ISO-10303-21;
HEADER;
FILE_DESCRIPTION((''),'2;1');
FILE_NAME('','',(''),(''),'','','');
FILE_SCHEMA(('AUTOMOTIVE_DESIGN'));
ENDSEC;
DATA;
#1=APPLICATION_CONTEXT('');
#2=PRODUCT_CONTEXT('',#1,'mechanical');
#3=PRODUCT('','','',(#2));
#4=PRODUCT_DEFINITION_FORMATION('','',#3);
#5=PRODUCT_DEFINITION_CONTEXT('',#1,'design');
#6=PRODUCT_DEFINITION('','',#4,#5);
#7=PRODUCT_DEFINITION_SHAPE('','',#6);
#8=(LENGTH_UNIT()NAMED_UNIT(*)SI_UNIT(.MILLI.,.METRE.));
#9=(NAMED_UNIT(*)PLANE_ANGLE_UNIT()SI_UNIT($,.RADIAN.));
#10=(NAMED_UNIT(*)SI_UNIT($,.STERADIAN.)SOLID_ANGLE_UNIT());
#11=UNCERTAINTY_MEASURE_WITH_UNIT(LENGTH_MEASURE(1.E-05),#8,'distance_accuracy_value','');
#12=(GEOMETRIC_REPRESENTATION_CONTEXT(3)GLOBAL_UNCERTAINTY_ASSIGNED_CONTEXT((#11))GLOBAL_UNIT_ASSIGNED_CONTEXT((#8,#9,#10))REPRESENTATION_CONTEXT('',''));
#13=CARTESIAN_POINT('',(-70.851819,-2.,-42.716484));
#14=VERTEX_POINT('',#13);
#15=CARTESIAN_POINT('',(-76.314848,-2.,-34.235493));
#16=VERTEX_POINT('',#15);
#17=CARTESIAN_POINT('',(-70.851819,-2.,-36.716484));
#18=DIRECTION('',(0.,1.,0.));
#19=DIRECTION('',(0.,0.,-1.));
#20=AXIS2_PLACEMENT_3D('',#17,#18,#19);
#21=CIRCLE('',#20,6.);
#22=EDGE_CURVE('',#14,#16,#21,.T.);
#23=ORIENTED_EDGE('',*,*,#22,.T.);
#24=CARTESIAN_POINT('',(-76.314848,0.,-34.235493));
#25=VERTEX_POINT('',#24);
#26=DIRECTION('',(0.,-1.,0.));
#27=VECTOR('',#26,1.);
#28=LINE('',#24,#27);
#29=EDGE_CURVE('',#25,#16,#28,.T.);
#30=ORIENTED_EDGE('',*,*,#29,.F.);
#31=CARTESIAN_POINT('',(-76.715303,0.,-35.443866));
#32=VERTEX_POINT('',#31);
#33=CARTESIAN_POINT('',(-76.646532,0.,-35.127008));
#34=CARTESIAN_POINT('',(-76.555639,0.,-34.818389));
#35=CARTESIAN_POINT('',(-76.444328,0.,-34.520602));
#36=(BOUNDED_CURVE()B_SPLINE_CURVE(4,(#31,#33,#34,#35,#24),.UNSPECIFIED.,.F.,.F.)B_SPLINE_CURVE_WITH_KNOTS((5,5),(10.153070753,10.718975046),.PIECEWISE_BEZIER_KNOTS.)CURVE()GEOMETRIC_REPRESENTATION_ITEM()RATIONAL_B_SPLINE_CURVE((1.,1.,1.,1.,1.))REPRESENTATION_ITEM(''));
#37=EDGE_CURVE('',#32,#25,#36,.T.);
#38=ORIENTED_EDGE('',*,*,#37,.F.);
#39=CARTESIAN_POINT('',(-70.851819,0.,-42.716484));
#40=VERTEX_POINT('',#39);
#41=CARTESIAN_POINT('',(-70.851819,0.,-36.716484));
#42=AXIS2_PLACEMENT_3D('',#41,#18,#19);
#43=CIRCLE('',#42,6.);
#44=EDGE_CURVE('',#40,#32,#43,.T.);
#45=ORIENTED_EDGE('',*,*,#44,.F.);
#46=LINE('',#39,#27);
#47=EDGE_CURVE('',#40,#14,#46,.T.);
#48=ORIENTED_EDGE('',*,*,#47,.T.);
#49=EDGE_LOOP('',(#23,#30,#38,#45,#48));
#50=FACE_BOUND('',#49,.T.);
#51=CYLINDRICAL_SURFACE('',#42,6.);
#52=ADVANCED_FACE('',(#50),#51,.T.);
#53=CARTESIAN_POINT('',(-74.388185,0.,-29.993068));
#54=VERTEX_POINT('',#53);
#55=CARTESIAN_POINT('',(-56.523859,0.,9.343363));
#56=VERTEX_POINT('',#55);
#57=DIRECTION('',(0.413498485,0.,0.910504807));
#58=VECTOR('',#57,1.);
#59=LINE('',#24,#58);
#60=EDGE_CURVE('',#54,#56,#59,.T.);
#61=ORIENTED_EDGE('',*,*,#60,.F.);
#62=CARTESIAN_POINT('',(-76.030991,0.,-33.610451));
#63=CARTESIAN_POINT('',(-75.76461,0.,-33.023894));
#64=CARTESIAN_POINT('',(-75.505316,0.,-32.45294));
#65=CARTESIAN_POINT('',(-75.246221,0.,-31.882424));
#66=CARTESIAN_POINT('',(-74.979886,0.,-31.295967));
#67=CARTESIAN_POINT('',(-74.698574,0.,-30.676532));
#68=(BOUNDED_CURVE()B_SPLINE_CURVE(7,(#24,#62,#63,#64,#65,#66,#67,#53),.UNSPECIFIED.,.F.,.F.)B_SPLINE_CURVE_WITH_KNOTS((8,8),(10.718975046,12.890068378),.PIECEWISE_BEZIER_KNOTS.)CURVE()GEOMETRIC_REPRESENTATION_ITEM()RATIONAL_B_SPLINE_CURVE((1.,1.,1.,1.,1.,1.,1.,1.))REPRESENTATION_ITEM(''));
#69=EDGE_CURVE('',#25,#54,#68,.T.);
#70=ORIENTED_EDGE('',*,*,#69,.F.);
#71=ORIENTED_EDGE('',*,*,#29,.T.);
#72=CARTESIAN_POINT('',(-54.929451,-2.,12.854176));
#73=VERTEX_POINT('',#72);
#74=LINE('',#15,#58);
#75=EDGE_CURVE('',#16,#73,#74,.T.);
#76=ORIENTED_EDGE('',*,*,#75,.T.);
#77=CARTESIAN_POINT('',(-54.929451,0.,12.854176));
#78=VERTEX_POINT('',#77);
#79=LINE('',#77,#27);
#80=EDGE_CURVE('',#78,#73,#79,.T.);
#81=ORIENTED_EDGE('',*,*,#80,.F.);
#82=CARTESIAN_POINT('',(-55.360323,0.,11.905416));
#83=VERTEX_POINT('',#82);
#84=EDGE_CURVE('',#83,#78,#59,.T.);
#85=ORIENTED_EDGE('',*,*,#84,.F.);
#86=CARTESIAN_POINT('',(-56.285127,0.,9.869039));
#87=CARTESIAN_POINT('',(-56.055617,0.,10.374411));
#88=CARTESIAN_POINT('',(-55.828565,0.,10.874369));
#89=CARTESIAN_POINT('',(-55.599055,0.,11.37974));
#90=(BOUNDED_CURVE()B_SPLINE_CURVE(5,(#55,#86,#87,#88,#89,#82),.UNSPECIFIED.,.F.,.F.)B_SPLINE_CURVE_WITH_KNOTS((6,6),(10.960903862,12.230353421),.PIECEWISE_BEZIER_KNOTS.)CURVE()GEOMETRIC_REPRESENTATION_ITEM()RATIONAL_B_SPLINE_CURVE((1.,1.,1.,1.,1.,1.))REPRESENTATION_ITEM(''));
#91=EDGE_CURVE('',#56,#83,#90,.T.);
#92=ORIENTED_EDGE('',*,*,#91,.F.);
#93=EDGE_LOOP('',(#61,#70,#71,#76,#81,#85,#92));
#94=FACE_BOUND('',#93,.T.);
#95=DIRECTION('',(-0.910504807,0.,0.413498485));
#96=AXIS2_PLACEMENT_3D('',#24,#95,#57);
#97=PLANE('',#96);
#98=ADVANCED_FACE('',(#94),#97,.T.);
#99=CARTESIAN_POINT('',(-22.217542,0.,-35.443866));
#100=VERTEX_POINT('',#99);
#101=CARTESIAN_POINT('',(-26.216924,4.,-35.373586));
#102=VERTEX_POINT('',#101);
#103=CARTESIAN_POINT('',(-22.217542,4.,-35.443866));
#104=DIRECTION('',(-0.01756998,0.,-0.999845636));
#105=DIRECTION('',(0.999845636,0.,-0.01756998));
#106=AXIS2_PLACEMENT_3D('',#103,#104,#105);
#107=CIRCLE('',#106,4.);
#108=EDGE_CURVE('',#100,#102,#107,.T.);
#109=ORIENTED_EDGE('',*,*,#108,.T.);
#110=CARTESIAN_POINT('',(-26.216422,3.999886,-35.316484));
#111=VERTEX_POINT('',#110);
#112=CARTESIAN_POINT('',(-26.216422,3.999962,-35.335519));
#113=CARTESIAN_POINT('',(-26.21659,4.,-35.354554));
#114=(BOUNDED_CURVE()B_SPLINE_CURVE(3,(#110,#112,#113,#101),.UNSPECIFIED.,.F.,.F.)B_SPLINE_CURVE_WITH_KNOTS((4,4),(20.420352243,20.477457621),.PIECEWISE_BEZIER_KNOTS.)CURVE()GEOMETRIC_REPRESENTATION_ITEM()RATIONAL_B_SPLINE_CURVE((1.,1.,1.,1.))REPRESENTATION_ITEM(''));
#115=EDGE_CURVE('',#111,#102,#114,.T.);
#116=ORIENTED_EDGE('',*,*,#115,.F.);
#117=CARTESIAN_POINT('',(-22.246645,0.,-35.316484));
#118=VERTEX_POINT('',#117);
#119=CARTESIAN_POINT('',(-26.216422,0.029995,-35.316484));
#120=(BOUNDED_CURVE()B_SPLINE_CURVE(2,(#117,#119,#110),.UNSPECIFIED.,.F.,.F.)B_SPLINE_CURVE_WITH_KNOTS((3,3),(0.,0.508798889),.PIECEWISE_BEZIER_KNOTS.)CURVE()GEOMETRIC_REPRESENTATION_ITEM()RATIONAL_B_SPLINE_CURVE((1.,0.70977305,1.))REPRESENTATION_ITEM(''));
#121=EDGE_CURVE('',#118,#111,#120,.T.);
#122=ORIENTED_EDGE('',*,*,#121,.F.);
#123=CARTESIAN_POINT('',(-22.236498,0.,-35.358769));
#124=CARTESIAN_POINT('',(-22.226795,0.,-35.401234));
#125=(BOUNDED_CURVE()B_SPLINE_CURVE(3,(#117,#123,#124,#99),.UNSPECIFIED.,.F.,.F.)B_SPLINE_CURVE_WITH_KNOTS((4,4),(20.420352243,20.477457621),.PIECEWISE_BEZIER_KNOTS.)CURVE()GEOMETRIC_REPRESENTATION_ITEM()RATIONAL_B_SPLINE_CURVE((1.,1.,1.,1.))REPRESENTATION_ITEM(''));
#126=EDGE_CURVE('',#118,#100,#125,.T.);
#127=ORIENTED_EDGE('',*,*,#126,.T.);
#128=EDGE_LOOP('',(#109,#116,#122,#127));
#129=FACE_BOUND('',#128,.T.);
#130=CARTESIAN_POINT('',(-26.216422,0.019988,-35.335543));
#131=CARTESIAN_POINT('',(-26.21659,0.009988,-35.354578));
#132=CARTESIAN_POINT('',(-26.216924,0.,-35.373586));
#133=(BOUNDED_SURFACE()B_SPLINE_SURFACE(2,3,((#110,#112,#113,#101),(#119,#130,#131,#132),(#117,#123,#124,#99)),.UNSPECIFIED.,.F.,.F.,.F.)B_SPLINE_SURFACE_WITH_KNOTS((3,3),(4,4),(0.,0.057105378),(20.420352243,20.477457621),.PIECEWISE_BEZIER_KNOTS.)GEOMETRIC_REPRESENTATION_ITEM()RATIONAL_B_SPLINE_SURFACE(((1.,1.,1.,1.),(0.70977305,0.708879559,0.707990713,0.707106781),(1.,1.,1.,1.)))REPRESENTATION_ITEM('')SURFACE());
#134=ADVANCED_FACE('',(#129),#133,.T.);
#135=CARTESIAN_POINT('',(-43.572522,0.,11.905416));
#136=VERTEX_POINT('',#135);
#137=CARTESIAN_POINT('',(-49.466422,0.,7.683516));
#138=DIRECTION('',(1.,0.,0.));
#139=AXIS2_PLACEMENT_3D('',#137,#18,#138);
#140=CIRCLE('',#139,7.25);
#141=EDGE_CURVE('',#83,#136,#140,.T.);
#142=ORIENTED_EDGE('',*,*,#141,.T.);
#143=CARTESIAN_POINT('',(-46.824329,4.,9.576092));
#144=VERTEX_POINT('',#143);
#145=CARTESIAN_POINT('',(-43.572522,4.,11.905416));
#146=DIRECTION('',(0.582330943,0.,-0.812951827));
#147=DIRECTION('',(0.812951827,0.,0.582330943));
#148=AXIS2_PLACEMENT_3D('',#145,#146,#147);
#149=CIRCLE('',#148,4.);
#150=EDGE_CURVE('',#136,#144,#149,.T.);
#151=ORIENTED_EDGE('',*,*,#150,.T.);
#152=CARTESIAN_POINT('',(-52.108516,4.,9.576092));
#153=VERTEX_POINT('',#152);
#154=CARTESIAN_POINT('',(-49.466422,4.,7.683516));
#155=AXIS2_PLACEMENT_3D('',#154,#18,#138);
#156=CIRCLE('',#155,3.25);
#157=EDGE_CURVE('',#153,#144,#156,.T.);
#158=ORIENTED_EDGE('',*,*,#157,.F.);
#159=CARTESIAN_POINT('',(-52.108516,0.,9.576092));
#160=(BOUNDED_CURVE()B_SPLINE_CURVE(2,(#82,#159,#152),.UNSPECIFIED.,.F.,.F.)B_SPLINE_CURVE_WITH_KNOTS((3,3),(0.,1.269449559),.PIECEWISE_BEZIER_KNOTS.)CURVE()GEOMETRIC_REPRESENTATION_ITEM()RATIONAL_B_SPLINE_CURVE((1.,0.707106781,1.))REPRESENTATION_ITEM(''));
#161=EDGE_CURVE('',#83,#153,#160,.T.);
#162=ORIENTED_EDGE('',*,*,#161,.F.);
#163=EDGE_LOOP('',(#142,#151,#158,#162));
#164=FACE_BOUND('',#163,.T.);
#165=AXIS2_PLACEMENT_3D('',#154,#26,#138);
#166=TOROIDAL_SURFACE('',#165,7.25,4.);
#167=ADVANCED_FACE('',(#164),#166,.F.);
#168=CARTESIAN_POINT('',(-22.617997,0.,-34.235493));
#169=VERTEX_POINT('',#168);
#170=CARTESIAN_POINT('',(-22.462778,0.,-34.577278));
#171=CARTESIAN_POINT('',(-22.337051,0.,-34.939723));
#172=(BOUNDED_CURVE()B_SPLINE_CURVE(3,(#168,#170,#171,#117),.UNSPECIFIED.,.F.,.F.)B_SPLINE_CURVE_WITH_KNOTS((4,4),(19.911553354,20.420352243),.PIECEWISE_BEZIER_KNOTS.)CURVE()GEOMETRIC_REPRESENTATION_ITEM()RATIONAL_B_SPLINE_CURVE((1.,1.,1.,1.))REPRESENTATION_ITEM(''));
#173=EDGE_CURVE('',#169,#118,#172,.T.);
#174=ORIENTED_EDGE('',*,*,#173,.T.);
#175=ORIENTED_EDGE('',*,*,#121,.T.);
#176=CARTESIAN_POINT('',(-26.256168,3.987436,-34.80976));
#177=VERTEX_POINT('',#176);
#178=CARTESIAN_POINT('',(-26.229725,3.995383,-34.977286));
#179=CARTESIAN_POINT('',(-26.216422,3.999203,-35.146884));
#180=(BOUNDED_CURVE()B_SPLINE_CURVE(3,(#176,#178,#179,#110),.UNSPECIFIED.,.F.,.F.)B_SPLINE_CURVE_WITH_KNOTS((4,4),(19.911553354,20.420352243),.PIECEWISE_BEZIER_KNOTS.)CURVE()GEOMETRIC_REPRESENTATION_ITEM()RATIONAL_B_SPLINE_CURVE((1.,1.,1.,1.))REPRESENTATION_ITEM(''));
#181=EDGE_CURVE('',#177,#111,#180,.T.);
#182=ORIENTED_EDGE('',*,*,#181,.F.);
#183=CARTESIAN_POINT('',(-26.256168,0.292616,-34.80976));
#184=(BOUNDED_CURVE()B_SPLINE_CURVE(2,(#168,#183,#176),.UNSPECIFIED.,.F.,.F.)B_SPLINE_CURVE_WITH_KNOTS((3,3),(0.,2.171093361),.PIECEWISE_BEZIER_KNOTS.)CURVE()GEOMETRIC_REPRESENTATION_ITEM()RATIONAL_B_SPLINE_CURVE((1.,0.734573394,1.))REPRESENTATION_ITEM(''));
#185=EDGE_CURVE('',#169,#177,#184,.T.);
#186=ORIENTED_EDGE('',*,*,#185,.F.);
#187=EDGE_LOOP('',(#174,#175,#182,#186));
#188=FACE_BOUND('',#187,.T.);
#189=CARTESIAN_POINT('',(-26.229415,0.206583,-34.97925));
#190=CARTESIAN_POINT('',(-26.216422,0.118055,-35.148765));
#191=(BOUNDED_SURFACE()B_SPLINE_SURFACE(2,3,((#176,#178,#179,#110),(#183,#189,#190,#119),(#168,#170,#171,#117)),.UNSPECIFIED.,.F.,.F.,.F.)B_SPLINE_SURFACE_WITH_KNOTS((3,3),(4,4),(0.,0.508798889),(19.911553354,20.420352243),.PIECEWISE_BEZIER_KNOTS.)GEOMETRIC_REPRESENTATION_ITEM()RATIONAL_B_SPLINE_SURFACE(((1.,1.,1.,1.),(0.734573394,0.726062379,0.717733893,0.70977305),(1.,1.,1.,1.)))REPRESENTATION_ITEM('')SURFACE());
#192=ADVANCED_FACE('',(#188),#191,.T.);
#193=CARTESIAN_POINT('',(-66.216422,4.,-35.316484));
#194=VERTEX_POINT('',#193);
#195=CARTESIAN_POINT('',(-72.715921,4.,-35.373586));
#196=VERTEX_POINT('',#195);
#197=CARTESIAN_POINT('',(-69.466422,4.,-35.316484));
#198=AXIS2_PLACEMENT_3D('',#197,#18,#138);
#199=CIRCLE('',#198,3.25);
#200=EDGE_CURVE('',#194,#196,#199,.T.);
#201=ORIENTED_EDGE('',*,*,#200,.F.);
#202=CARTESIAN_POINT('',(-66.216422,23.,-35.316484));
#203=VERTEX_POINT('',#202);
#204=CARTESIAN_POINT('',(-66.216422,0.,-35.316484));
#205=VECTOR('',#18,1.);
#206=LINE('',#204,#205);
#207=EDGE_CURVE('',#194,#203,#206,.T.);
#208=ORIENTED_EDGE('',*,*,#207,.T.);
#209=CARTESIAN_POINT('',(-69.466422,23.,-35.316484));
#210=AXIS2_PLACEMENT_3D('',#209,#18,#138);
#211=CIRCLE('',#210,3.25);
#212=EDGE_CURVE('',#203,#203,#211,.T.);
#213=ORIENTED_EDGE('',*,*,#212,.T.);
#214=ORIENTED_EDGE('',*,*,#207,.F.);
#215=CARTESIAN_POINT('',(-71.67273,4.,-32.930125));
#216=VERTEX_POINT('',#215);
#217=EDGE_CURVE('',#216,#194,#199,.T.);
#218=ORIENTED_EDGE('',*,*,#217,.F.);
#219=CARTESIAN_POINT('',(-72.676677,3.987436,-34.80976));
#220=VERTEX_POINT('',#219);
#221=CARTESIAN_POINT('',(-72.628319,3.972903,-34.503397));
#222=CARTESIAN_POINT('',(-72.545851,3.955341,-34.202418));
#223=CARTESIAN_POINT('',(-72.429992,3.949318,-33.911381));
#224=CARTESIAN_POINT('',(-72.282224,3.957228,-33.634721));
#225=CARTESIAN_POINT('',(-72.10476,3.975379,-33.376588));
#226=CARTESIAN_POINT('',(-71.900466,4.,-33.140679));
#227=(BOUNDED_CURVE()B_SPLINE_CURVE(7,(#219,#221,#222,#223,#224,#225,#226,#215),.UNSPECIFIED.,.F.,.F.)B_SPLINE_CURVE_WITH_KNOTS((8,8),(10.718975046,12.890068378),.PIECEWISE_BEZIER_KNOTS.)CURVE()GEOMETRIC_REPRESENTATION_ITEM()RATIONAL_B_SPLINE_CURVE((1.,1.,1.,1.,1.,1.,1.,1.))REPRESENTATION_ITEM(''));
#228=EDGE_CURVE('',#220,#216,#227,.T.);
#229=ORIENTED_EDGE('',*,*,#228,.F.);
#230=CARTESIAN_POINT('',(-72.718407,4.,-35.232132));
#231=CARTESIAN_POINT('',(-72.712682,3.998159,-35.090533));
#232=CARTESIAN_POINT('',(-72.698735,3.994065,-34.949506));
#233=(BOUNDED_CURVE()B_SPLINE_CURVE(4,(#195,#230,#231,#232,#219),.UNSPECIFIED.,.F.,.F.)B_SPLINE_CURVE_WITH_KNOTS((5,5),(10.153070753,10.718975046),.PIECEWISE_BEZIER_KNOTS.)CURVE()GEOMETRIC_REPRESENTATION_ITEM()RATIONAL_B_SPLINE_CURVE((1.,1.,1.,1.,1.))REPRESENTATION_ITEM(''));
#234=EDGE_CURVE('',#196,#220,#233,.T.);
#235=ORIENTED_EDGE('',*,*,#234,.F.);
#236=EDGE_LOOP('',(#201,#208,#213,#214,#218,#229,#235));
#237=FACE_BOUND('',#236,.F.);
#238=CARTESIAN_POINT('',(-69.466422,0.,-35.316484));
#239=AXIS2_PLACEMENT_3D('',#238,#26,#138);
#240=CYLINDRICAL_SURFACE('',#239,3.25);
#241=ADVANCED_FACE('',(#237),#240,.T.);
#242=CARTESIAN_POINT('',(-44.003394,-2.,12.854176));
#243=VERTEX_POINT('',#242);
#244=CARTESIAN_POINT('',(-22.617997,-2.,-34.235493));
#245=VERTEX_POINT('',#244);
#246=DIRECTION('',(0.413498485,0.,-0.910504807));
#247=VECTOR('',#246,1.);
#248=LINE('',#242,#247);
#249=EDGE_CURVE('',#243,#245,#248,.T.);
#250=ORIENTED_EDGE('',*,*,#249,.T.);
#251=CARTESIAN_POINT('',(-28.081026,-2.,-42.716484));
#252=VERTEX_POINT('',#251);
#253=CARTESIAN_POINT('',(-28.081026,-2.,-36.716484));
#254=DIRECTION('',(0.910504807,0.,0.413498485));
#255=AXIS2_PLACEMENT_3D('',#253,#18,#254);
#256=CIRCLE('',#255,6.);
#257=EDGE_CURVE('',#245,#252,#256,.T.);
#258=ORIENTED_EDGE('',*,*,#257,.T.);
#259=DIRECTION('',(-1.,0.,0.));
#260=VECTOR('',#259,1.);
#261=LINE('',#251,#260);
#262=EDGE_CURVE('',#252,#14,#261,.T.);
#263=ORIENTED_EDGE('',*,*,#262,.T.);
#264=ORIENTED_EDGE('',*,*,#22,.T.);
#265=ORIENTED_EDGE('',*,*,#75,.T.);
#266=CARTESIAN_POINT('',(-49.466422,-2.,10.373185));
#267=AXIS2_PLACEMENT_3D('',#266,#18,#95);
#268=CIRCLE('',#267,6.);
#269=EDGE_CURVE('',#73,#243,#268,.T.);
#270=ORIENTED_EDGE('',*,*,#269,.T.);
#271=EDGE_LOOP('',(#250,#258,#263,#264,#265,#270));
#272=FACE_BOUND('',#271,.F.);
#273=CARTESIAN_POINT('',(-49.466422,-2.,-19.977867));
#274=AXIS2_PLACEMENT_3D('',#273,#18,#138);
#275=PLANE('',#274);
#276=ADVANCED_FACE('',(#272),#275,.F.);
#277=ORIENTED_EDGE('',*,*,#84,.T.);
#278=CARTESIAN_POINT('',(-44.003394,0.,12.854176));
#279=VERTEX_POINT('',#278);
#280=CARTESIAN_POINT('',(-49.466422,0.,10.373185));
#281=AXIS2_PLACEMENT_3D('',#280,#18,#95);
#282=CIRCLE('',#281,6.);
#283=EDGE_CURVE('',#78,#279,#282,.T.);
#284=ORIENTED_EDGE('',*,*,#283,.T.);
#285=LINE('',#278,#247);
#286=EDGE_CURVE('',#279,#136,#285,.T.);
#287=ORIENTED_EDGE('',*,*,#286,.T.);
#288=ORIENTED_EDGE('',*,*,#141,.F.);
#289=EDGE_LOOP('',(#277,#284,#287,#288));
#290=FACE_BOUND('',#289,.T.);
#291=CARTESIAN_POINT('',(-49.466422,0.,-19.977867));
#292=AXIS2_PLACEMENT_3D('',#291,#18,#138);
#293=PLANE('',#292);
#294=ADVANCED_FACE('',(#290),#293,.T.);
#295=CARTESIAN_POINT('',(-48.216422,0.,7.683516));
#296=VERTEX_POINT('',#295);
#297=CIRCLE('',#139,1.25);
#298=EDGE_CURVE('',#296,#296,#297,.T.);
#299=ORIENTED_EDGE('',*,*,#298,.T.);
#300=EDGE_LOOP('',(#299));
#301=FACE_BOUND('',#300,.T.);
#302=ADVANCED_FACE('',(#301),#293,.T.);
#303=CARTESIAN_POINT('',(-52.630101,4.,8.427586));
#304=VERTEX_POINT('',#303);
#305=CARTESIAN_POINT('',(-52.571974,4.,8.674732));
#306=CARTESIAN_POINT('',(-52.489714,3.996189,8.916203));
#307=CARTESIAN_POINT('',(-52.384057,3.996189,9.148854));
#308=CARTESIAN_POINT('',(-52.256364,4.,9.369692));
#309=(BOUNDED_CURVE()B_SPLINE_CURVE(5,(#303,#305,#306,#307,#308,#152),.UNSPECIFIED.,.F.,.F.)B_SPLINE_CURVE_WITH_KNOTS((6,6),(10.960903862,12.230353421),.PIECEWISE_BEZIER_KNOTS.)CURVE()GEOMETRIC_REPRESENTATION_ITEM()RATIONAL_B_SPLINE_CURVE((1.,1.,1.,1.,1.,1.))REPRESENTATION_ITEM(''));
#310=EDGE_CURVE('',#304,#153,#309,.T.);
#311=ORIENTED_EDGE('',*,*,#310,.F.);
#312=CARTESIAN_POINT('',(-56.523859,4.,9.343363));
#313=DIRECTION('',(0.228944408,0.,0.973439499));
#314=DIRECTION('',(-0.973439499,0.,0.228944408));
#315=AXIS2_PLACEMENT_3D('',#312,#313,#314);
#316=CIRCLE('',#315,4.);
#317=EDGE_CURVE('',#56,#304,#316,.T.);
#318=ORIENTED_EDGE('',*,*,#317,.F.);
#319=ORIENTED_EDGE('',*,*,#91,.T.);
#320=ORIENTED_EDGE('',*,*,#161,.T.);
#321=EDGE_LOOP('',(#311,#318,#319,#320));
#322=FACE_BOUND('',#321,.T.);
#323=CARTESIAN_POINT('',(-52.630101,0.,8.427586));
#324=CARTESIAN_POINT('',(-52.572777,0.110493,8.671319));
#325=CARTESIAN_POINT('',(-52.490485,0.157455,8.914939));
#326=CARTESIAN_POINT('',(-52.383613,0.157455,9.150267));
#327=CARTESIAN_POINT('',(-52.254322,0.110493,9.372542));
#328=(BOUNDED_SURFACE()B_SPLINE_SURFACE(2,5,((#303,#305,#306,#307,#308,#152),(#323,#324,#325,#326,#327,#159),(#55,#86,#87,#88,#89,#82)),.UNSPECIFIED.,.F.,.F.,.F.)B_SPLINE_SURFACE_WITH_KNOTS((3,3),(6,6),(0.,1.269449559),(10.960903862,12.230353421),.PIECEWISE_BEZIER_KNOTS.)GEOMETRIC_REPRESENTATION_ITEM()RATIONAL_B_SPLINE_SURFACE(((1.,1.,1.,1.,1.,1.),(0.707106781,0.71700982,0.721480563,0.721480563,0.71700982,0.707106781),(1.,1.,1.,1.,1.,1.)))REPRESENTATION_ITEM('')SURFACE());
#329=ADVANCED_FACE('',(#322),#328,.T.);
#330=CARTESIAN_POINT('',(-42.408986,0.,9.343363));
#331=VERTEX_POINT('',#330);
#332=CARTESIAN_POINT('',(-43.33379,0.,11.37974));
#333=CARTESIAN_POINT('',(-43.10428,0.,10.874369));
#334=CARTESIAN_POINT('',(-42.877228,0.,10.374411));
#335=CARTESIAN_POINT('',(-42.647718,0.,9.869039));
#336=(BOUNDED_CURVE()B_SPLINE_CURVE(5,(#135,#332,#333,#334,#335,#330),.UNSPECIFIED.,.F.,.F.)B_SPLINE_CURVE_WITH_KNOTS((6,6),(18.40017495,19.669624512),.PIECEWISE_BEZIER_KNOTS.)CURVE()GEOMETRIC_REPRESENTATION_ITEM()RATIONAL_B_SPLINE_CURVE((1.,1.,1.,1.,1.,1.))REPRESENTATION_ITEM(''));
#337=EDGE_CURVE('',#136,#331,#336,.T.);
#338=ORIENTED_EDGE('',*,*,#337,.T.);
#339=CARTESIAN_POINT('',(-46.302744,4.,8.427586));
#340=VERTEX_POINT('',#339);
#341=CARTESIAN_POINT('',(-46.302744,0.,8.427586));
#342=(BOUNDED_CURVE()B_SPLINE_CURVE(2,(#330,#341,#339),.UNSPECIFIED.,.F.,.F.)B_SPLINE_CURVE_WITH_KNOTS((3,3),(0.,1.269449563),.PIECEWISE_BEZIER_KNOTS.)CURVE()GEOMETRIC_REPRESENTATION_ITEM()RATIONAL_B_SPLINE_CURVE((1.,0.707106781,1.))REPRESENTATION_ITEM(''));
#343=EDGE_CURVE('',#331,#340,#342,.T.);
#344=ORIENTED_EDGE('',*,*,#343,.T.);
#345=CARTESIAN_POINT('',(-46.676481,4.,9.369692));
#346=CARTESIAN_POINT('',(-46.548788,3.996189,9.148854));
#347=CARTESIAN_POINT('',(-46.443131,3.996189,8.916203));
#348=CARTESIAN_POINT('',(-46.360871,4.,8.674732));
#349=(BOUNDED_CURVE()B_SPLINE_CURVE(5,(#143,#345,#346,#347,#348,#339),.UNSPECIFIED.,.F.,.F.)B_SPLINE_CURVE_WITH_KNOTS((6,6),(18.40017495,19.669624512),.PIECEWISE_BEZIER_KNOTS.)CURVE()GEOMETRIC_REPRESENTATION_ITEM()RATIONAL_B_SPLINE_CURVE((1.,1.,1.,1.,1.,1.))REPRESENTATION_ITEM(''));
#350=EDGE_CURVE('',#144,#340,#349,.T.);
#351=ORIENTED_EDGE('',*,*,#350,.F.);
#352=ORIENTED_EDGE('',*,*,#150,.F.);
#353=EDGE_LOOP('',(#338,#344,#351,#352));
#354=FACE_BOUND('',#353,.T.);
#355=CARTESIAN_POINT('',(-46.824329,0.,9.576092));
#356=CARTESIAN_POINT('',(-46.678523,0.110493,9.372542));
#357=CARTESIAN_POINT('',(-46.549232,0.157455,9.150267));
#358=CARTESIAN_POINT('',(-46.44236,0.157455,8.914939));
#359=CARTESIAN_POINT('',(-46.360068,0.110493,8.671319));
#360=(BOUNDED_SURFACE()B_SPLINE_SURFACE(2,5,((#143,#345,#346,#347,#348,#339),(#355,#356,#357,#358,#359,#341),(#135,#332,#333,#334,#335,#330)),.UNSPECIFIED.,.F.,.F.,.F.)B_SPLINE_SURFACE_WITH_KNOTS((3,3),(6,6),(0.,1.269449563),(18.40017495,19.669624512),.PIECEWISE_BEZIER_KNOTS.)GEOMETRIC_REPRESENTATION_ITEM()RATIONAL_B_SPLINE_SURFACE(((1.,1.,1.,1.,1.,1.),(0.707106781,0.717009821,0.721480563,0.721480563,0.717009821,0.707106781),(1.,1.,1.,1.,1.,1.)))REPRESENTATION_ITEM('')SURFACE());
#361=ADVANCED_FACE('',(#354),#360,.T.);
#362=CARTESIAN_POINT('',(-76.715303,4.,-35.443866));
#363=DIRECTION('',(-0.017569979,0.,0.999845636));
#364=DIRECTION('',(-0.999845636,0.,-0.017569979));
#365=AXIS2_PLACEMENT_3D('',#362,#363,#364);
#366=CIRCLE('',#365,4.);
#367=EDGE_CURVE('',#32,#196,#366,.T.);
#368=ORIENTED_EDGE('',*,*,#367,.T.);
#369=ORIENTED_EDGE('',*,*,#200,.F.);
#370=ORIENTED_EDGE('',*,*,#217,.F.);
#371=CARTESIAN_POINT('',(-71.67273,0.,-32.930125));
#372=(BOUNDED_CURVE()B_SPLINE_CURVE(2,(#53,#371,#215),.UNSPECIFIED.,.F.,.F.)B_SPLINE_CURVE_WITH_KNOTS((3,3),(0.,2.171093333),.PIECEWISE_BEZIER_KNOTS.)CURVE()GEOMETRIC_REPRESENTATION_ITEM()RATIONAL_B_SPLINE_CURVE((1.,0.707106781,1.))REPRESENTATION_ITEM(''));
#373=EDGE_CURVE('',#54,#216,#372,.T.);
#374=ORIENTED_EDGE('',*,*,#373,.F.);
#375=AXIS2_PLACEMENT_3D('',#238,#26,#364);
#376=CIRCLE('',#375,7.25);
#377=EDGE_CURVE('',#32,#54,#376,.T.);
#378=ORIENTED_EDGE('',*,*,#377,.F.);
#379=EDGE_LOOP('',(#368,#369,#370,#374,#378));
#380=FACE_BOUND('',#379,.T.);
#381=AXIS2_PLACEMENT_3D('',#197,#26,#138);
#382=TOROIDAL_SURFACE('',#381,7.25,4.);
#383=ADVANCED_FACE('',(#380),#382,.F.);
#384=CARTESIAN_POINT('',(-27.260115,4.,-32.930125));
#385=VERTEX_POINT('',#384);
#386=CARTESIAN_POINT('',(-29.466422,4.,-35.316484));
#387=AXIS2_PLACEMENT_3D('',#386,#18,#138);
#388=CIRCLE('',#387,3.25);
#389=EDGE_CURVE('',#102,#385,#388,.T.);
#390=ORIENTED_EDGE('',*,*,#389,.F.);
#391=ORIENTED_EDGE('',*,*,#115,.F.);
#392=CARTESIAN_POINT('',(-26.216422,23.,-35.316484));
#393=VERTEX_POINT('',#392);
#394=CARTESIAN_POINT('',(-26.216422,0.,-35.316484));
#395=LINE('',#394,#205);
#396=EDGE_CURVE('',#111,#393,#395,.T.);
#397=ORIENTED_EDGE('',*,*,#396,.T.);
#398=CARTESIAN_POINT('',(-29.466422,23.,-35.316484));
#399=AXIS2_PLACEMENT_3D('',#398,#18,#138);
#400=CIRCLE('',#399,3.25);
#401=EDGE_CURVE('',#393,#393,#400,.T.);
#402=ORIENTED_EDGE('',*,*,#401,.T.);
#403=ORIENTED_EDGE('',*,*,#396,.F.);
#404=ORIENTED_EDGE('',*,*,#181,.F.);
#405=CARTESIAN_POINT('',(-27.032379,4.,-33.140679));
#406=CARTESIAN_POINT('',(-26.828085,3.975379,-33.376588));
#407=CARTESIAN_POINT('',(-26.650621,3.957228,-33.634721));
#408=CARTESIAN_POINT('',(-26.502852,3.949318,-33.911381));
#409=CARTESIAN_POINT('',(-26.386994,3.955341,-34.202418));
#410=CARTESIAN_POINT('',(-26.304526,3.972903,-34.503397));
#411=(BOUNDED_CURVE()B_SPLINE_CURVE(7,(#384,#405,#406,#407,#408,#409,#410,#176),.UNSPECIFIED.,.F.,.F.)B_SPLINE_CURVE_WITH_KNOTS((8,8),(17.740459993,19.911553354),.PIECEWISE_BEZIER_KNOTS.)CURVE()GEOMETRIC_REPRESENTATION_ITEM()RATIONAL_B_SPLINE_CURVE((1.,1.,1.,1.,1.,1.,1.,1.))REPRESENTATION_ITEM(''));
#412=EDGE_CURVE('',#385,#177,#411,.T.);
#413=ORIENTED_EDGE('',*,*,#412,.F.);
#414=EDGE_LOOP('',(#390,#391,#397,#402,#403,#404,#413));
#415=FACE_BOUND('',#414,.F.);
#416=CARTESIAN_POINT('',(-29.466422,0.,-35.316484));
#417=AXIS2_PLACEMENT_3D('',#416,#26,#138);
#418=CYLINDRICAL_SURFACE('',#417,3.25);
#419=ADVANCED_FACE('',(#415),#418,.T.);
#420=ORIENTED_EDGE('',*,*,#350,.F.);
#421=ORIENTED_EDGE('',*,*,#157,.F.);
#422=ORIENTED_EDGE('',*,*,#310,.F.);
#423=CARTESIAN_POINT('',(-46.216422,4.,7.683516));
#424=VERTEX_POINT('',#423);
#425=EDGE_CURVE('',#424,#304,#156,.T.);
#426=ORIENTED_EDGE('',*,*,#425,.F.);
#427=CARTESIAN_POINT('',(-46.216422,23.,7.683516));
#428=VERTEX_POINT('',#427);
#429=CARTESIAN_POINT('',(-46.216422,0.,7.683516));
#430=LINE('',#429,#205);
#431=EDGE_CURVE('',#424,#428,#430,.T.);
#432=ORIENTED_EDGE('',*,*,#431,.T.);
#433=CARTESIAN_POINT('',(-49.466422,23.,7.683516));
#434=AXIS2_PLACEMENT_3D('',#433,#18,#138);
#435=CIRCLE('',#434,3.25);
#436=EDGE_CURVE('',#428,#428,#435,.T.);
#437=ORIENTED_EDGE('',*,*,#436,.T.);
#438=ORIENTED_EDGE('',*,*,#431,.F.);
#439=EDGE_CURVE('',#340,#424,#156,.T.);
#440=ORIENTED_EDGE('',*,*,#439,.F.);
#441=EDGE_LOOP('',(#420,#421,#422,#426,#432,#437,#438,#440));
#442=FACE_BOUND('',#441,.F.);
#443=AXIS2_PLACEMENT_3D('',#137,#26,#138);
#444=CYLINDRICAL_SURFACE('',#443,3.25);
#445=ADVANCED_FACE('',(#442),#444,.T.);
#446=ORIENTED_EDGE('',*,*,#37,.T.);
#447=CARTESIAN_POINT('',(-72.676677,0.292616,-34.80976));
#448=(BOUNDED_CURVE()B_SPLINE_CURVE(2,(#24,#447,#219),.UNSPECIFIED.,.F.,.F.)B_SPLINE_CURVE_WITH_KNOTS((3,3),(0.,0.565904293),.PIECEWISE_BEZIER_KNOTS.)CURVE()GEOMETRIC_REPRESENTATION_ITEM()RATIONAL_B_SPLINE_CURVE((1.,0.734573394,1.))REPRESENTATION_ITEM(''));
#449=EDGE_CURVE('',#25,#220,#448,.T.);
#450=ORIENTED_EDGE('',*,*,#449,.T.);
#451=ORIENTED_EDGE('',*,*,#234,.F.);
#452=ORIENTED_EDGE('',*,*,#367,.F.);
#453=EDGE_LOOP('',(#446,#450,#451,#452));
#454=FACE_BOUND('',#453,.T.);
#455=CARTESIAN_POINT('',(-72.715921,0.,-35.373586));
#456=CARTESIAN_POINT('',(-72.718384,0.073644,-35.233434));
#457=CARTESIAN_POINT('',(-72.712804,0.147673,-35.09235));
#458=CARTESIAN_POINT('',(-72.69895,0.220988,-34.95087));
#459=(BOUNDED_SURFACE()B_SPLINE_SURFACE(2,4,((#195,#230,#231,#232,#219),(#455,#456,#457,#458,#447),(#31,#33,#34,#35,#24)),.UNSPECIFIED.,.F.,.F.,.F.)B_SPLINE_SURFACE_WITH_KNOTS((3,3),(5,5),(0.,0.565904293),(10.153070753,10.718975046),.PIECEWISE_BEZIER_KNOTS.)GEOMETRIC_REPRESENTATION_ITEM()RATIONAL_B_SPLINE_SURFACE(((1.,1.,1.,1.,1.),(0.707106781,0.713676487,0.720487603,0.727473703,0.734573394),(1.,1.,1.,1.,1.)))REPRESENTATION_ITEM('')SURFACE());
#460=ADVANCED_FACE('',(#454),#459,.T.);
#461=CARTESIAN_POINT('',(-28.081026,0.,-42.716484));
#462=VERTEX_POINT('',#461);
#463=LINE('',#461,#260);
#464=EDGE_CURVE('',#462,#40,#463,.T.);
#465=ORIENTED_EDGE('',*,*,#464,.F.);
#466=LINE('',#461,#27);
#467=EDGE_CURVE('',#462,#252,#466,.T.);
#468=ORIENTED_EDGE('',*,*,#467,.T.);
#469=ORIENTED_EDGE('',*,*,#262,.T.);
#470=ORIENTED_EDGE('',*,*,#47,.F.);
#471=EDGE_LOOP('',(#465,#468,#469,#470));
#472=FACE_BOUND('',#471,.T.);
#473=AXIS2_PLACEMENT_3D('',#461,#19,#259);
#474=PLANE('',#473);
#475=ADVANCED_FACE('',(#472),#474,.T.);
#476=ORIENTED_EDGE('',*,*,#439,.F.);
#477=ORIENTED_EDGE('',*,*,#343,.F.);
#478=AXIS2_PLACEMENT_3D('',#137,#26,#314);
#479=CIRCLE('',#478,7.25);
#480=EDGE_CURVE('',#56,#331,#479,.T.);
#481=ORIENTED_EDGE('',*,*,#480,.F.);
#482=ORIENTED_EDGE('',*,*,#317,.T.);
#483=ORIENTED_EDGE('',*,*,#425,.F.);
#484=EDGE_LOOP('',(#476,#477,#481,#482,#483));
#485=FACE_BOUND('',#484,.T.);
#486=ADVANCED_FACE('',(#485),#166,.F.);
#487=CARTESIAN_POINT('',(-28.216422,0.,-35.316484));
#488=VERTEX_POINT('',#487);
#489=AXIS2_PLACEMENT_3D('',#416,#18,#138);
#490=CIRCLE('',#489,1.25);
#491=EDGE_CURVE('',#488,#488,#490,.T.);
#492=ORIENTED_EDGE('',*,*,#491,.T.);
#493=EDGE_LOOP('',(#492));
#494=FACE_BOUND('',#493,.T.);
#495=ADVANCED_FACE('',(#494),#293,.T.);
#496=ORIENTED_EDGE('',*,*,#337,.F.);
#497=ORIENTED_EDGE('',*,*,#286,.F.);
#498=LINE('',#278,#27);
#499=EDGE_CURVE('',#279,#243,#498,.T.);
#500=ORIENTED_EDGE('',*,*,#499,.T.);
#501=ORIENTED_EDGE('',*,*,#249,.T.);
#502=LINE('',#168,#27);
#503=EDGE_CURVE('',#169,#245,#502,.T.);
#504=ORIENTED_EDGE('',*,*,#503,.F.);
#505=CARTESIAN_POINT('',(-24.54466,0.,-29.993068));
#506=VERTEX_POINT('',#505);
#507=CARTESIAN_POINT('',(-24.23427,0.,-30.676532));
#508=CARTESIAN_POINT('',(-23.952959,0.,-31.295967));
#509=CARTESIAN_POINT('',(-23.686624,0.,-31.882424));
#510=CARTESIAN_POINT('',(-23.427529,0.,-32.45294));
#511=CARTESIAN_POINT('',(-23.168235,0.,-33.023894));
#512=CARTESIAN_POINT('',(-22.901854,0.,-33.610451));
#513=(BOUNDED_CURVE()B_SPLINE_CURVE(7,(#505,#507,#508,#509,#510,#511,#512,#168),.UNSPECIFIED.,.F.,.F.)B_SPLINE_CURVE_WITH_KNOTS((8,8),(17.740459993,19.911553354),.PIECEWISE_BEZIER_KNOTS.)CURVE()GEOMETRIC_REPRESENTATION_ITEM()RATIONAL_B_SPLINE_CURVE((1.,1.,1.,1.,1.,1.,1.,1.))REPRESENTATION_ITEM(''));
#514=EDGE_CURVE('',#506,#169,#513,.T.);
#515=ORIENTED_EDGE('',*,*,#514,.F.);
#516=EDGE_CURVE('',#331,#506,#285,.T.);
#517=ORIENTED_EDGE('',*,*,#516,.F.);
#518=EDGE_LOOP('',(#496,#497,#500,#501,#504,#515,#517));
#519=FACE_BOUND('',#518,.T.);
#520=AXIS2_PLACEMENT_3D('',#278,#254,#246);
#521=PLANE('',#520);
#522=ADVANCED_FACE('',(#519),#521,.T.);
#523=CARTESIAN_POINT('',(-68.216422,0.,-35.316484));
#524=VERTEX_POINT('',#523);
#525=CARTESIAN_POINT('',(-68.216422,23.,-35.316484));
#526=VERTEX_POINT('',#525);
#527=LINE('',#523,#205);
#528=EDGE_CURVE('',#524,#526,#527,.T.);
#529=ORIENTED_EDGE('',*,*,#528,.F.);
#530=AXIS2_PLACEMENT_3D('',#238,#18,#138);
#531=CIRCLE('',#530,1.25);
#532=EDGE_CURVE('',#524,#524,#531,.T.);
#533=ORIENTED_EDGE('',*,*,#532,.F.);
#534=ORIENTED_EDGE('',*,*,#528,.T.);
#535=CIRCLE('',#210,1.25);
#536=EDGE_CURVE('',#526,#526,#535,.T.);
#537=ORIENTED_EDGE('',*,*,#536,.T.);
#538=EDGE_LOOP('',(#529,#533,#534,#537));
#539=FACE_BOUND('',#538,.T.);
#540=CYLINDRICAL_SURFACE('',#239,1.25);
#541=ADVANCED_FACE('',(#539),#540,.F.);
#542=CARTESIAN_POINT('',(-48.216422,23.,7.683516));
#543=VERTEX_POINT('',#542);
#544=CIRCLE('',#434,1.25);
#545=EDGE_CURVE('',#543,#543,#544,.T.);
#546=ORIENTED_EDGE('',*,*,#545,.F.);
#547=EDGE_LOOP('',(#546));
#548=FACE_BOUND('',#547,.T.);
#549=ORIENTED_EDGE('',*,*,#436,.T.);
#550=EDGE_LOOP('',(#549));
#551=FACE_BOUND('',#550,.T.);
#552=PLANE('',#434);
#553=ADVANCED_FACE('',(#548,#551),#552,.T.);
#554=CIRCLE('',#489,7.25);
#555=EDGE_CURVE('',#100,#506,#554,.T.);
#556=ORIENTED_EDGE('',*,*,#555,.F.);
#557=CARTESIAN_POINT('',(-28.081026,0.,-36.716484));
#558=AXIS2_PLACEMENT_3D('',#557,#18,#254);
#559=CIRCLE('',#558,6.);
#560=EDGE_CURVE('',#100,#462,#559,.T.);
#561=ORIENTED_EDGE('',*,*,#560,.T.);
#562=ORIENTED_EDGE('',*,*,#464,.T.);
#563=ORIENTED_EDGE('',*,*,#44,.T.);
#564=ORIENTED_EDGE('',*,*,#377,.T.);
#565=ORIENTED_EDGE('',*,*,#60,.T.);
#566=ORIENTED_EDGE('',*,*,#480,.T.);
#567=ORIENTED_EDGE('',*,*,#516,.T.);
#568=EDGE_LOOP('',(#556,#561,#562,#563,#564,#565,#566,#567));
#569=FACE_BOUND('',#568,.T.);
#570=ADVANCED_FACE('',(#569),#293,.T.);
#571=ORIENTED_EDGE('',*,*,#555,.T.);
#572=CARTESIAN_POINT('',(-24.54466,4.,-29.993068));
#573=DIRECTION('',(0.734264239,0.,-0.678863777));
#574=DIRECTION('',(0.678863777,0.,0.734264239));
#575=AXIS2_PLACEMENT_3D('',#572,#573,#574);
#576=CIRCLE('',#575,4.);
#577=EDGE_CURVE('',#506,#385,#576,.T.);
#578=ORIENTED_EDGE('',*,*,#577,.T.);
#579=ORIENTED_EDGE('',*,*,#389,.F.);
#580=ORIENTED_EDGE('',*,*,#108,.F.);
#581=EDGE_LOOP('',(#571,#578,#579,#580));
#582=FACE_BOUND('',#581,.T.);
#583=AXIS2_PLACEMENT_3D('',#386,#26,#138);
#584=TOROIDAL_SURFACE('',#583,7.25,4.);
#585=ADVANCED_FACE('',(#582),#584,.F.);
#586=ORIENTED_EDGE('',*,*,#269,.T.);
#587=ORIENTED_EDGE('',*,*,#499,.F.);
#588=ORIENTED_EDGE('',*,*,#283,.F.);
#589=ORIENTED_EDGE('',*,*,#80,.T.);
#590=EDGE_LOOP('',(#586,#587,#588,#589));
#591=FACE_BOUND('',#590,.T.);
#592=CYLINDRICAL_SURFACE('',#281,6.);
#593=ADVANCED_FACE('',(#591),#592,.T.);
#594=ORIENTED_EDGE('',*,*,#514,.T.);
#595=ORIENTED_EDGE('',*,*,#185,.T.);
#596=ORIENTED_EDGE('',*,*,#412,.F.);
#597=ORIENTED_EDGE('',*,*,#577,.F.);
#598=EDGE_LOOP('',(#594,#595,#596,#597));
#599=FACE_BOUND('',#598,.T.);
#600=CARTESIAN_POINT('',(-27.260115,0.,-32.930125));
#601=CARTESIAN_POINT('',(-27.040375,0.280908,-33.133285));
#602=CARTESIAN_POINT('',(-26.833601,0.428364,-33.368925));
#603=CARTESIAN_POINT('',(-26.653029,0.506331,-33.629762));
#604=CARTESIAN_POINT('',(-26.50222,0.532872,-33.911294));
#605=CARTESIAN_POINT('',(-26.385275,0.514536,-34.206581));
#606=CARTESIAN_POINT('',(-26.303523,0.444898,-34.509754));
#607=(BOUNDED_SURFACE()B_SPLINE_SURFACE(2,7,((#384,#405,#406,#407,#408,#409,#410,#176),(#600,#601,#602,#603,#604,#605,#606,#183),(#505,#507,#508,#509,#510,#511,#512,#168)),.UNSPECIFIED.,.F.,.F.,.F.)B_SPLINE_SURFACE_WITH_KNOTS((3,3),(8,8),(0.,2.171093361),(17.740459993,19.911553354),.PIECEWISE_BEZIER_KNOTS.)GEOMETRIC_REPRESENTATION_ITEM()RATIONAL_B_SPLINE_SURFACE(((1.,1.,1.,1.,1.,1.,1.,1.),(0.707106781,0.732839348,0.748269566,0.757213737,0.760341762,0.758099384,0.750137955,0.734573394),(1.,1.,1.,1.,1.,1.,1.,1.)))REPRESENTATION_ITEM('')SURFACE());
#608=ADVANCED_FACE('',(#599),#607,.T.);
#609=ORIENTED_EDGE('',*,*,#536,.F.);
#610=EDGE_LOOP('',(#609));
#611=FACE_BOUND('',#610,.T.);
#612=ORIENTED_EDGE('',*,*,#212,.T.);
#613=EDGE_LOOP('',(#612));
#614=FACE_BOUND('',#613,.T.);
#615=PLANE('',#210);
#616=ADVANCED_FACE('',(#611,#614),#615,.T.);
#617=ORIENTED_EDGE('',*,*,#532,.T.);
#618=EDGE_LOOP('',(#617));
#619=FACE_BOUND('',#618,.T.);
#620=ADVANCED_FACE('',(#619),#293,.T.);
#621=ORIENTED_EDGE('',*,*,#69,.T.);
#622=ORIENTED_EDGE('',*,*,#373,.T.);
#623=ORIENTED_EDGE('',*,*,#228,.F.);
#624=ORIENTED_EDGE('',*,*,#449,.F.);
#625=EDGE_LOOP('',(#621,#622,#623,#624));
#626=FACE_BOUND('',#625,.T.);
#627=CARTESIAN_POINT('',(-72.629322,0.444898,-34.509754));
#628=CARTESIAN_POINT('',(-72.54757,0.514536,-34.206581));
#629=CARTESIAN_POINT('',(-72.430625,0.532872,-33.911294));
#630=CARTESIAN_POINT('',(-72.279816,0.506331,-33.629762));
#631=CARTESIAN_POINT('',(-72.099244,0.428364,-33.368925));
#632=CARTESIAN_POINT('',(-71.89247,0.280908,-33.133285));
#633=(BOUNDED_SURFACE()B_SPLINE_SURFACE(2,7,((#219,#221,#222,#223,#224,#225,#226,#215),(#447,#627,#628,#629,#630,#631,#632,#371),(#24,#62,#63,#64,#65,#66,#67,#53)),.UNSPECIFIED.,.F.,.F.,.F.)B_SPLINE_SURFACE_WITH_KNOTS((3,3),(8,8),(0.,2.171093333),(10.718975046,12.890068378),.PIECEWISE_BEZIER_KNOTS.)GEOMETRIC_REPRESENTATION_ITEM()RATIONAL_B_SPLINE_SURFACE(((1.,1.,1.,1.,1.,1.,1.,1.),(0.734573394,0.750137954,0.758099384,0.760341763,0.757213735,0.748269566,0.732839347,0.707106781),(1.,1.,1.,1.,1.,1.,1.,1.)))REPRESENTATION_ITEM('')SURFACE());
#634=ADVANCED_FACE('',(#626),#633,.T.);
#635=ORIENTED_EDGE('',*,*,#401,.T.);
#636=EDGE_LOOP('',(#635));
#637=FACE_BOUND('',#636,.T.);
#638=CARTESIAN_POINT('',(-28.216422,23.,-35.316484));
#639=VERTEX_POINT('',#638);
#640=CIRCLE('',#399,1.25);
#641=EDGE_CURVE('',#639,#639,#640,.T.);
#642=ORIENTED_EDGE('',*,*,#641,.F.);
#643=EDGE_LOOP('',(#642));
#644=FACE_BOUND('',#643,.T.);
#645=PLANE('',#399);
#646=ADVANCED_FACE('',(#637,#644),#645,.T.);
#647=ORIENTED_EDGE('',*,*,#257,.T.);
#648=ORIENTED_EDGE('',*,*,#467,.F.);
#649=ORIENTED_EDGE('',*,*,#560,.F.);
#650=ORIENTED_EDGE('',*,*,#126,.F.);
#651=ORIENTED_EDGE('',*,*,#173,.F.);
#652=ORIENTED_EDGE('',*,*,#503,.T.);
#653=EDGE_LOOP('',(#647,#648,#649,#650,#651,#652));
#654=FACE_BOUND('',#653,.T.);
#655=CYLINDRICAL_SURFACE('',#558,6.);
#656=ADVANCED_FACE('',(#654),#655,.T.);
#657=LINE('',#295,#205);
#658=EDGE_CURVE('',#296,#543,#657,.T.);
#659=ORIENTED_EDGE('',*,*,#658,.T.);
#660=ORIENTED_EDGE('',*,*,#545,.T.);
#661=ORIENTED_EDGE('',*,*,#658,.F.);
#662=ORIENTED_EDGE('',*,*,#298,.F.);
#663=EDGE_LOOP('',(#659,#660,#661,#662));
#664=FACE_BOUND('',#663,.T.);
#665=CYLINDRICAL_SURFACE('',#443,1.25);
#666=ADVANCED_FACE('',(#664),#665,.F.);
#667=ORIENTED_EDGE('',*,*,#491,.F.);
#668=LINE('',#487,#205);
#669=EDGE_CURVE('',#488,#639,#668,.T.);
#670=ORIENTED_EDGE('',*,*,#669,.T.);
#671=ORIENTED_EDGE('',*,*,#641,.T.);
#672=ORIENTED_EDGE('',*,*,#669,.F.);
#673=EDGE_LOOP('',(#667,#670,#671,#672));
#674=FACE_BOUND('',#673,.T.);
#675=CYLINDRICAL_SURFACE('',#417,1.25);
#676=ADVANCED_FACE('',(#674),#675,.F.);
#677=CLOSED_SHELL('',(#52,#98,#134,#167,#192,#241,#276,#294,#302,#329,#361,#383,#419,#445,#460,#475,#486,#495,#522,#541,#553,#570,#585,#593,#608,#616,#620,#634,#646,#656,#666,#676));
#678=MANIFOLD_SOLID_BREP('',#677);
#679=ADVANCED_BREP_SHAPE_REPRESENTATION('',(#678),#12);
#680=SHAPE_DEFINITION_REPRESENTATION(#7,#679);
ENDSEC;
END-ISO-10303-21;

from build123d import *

# Parameters (mm, degrees)
BOSS_EXTRUDE1_DEPTH = 2
SKETCH1_3_R         = 3.25
SKETCH1_3_R_2       = 1.25
BOSS_EXTRUDE2_DEPTH = 23
FILLET1_R           = 4


with BuildPart() as part:
    # Sketch1 → Boss-Extrude1 (new body)
    with BuildSketch(Plane(origin=(0, 0, 0), x_dir=(1, 0, 0), z_dir=(0, 1, 0))):
        with BuildLine():
            Line((-28.08102558, 42.716483516), (-70.851819352, 42.716483516))
            ThreePointArc((-70.851819352, 42.716483516), (-75.89592212, 39.96564145), (-76.314848193, 34.235492608))
            Line((-76.314848193, 34.235492608), (-54.929451307, -12.854176105))
            ThreePointArc((-54.929451307, -12.854176105), (-49.466422466, -16.373185197), (-44.003393626, -12.854176105))
            Line((-44.003393626, -12.854176105), (-22.61799674, 34.235492608))
            ThreePointArc((-22.61799674, 34.235492608), (-23.036922813, 39.96564145), (-28.08102558, 42.716483516))
        make_face()
    extrude(amount=-BOSS_EXTRUDE1_DEPTH)

    # Sketch1<3> → Boss-Extrude2 (add)
    # profile 1 of 3: a face of its own
    with BuildSketch(Plane(origin=(0, 0, 0), x_dir=(1, 0, 0), z_dir=(0, 1, 0))):
        with Locations((-49.466422466, -7.683516484)):
            Circle(SKETCH1_3_R)
        with Locations((-49.466422466, -7.683516484)):
            Circle(SKETCH1_3_R_2, mode=Mode.SUBTRACT)
    # profile 2 of 3: a face of its own
    with BuildSketch(Plane(origin=(0, 0, 0), x_dir=(1, 0, 0), z_dir=(0, 1, 0))):
        with Locations((-29.466422466, 35.316483516)):
            Circle(SKETCH1_3_R)
        with Locations((-29.466422466, 35.316483516)):
            Circle(SKETCH1_3_R_2, mode=Mode.SUBTRACT)
    # profile 3 of 3: a face of its own
    with BuildSketch(Plane(origin=(0, 0, 0), x_dir=(1, 0, 0), z_dir=(0, 1, 0))):
        with Locations((-69.466422466, 35.316483516)):
            Circle(SKETCH1_3_R)
        with Locations((-69.466422466, 35.316483516)):
            Circle(SKETCH1_3_R_2, mode=Mode.SUBTRACT)
    extrude(amount=BOSS_EXTRUDE2_DEPTH)

    # Fillet1
    fillet1_edges = [part.edges().sort_by_distance(p)[0] for p in [
        (-52.716422466, 0, 7.683516484),
        (-72.716422466, 0, -35.316483516),
        (-32.716422466, 0, -35.316483516),
    ]]
    fillet(fillet1_edges, radius=FILLET1_R)


solid = part.part
